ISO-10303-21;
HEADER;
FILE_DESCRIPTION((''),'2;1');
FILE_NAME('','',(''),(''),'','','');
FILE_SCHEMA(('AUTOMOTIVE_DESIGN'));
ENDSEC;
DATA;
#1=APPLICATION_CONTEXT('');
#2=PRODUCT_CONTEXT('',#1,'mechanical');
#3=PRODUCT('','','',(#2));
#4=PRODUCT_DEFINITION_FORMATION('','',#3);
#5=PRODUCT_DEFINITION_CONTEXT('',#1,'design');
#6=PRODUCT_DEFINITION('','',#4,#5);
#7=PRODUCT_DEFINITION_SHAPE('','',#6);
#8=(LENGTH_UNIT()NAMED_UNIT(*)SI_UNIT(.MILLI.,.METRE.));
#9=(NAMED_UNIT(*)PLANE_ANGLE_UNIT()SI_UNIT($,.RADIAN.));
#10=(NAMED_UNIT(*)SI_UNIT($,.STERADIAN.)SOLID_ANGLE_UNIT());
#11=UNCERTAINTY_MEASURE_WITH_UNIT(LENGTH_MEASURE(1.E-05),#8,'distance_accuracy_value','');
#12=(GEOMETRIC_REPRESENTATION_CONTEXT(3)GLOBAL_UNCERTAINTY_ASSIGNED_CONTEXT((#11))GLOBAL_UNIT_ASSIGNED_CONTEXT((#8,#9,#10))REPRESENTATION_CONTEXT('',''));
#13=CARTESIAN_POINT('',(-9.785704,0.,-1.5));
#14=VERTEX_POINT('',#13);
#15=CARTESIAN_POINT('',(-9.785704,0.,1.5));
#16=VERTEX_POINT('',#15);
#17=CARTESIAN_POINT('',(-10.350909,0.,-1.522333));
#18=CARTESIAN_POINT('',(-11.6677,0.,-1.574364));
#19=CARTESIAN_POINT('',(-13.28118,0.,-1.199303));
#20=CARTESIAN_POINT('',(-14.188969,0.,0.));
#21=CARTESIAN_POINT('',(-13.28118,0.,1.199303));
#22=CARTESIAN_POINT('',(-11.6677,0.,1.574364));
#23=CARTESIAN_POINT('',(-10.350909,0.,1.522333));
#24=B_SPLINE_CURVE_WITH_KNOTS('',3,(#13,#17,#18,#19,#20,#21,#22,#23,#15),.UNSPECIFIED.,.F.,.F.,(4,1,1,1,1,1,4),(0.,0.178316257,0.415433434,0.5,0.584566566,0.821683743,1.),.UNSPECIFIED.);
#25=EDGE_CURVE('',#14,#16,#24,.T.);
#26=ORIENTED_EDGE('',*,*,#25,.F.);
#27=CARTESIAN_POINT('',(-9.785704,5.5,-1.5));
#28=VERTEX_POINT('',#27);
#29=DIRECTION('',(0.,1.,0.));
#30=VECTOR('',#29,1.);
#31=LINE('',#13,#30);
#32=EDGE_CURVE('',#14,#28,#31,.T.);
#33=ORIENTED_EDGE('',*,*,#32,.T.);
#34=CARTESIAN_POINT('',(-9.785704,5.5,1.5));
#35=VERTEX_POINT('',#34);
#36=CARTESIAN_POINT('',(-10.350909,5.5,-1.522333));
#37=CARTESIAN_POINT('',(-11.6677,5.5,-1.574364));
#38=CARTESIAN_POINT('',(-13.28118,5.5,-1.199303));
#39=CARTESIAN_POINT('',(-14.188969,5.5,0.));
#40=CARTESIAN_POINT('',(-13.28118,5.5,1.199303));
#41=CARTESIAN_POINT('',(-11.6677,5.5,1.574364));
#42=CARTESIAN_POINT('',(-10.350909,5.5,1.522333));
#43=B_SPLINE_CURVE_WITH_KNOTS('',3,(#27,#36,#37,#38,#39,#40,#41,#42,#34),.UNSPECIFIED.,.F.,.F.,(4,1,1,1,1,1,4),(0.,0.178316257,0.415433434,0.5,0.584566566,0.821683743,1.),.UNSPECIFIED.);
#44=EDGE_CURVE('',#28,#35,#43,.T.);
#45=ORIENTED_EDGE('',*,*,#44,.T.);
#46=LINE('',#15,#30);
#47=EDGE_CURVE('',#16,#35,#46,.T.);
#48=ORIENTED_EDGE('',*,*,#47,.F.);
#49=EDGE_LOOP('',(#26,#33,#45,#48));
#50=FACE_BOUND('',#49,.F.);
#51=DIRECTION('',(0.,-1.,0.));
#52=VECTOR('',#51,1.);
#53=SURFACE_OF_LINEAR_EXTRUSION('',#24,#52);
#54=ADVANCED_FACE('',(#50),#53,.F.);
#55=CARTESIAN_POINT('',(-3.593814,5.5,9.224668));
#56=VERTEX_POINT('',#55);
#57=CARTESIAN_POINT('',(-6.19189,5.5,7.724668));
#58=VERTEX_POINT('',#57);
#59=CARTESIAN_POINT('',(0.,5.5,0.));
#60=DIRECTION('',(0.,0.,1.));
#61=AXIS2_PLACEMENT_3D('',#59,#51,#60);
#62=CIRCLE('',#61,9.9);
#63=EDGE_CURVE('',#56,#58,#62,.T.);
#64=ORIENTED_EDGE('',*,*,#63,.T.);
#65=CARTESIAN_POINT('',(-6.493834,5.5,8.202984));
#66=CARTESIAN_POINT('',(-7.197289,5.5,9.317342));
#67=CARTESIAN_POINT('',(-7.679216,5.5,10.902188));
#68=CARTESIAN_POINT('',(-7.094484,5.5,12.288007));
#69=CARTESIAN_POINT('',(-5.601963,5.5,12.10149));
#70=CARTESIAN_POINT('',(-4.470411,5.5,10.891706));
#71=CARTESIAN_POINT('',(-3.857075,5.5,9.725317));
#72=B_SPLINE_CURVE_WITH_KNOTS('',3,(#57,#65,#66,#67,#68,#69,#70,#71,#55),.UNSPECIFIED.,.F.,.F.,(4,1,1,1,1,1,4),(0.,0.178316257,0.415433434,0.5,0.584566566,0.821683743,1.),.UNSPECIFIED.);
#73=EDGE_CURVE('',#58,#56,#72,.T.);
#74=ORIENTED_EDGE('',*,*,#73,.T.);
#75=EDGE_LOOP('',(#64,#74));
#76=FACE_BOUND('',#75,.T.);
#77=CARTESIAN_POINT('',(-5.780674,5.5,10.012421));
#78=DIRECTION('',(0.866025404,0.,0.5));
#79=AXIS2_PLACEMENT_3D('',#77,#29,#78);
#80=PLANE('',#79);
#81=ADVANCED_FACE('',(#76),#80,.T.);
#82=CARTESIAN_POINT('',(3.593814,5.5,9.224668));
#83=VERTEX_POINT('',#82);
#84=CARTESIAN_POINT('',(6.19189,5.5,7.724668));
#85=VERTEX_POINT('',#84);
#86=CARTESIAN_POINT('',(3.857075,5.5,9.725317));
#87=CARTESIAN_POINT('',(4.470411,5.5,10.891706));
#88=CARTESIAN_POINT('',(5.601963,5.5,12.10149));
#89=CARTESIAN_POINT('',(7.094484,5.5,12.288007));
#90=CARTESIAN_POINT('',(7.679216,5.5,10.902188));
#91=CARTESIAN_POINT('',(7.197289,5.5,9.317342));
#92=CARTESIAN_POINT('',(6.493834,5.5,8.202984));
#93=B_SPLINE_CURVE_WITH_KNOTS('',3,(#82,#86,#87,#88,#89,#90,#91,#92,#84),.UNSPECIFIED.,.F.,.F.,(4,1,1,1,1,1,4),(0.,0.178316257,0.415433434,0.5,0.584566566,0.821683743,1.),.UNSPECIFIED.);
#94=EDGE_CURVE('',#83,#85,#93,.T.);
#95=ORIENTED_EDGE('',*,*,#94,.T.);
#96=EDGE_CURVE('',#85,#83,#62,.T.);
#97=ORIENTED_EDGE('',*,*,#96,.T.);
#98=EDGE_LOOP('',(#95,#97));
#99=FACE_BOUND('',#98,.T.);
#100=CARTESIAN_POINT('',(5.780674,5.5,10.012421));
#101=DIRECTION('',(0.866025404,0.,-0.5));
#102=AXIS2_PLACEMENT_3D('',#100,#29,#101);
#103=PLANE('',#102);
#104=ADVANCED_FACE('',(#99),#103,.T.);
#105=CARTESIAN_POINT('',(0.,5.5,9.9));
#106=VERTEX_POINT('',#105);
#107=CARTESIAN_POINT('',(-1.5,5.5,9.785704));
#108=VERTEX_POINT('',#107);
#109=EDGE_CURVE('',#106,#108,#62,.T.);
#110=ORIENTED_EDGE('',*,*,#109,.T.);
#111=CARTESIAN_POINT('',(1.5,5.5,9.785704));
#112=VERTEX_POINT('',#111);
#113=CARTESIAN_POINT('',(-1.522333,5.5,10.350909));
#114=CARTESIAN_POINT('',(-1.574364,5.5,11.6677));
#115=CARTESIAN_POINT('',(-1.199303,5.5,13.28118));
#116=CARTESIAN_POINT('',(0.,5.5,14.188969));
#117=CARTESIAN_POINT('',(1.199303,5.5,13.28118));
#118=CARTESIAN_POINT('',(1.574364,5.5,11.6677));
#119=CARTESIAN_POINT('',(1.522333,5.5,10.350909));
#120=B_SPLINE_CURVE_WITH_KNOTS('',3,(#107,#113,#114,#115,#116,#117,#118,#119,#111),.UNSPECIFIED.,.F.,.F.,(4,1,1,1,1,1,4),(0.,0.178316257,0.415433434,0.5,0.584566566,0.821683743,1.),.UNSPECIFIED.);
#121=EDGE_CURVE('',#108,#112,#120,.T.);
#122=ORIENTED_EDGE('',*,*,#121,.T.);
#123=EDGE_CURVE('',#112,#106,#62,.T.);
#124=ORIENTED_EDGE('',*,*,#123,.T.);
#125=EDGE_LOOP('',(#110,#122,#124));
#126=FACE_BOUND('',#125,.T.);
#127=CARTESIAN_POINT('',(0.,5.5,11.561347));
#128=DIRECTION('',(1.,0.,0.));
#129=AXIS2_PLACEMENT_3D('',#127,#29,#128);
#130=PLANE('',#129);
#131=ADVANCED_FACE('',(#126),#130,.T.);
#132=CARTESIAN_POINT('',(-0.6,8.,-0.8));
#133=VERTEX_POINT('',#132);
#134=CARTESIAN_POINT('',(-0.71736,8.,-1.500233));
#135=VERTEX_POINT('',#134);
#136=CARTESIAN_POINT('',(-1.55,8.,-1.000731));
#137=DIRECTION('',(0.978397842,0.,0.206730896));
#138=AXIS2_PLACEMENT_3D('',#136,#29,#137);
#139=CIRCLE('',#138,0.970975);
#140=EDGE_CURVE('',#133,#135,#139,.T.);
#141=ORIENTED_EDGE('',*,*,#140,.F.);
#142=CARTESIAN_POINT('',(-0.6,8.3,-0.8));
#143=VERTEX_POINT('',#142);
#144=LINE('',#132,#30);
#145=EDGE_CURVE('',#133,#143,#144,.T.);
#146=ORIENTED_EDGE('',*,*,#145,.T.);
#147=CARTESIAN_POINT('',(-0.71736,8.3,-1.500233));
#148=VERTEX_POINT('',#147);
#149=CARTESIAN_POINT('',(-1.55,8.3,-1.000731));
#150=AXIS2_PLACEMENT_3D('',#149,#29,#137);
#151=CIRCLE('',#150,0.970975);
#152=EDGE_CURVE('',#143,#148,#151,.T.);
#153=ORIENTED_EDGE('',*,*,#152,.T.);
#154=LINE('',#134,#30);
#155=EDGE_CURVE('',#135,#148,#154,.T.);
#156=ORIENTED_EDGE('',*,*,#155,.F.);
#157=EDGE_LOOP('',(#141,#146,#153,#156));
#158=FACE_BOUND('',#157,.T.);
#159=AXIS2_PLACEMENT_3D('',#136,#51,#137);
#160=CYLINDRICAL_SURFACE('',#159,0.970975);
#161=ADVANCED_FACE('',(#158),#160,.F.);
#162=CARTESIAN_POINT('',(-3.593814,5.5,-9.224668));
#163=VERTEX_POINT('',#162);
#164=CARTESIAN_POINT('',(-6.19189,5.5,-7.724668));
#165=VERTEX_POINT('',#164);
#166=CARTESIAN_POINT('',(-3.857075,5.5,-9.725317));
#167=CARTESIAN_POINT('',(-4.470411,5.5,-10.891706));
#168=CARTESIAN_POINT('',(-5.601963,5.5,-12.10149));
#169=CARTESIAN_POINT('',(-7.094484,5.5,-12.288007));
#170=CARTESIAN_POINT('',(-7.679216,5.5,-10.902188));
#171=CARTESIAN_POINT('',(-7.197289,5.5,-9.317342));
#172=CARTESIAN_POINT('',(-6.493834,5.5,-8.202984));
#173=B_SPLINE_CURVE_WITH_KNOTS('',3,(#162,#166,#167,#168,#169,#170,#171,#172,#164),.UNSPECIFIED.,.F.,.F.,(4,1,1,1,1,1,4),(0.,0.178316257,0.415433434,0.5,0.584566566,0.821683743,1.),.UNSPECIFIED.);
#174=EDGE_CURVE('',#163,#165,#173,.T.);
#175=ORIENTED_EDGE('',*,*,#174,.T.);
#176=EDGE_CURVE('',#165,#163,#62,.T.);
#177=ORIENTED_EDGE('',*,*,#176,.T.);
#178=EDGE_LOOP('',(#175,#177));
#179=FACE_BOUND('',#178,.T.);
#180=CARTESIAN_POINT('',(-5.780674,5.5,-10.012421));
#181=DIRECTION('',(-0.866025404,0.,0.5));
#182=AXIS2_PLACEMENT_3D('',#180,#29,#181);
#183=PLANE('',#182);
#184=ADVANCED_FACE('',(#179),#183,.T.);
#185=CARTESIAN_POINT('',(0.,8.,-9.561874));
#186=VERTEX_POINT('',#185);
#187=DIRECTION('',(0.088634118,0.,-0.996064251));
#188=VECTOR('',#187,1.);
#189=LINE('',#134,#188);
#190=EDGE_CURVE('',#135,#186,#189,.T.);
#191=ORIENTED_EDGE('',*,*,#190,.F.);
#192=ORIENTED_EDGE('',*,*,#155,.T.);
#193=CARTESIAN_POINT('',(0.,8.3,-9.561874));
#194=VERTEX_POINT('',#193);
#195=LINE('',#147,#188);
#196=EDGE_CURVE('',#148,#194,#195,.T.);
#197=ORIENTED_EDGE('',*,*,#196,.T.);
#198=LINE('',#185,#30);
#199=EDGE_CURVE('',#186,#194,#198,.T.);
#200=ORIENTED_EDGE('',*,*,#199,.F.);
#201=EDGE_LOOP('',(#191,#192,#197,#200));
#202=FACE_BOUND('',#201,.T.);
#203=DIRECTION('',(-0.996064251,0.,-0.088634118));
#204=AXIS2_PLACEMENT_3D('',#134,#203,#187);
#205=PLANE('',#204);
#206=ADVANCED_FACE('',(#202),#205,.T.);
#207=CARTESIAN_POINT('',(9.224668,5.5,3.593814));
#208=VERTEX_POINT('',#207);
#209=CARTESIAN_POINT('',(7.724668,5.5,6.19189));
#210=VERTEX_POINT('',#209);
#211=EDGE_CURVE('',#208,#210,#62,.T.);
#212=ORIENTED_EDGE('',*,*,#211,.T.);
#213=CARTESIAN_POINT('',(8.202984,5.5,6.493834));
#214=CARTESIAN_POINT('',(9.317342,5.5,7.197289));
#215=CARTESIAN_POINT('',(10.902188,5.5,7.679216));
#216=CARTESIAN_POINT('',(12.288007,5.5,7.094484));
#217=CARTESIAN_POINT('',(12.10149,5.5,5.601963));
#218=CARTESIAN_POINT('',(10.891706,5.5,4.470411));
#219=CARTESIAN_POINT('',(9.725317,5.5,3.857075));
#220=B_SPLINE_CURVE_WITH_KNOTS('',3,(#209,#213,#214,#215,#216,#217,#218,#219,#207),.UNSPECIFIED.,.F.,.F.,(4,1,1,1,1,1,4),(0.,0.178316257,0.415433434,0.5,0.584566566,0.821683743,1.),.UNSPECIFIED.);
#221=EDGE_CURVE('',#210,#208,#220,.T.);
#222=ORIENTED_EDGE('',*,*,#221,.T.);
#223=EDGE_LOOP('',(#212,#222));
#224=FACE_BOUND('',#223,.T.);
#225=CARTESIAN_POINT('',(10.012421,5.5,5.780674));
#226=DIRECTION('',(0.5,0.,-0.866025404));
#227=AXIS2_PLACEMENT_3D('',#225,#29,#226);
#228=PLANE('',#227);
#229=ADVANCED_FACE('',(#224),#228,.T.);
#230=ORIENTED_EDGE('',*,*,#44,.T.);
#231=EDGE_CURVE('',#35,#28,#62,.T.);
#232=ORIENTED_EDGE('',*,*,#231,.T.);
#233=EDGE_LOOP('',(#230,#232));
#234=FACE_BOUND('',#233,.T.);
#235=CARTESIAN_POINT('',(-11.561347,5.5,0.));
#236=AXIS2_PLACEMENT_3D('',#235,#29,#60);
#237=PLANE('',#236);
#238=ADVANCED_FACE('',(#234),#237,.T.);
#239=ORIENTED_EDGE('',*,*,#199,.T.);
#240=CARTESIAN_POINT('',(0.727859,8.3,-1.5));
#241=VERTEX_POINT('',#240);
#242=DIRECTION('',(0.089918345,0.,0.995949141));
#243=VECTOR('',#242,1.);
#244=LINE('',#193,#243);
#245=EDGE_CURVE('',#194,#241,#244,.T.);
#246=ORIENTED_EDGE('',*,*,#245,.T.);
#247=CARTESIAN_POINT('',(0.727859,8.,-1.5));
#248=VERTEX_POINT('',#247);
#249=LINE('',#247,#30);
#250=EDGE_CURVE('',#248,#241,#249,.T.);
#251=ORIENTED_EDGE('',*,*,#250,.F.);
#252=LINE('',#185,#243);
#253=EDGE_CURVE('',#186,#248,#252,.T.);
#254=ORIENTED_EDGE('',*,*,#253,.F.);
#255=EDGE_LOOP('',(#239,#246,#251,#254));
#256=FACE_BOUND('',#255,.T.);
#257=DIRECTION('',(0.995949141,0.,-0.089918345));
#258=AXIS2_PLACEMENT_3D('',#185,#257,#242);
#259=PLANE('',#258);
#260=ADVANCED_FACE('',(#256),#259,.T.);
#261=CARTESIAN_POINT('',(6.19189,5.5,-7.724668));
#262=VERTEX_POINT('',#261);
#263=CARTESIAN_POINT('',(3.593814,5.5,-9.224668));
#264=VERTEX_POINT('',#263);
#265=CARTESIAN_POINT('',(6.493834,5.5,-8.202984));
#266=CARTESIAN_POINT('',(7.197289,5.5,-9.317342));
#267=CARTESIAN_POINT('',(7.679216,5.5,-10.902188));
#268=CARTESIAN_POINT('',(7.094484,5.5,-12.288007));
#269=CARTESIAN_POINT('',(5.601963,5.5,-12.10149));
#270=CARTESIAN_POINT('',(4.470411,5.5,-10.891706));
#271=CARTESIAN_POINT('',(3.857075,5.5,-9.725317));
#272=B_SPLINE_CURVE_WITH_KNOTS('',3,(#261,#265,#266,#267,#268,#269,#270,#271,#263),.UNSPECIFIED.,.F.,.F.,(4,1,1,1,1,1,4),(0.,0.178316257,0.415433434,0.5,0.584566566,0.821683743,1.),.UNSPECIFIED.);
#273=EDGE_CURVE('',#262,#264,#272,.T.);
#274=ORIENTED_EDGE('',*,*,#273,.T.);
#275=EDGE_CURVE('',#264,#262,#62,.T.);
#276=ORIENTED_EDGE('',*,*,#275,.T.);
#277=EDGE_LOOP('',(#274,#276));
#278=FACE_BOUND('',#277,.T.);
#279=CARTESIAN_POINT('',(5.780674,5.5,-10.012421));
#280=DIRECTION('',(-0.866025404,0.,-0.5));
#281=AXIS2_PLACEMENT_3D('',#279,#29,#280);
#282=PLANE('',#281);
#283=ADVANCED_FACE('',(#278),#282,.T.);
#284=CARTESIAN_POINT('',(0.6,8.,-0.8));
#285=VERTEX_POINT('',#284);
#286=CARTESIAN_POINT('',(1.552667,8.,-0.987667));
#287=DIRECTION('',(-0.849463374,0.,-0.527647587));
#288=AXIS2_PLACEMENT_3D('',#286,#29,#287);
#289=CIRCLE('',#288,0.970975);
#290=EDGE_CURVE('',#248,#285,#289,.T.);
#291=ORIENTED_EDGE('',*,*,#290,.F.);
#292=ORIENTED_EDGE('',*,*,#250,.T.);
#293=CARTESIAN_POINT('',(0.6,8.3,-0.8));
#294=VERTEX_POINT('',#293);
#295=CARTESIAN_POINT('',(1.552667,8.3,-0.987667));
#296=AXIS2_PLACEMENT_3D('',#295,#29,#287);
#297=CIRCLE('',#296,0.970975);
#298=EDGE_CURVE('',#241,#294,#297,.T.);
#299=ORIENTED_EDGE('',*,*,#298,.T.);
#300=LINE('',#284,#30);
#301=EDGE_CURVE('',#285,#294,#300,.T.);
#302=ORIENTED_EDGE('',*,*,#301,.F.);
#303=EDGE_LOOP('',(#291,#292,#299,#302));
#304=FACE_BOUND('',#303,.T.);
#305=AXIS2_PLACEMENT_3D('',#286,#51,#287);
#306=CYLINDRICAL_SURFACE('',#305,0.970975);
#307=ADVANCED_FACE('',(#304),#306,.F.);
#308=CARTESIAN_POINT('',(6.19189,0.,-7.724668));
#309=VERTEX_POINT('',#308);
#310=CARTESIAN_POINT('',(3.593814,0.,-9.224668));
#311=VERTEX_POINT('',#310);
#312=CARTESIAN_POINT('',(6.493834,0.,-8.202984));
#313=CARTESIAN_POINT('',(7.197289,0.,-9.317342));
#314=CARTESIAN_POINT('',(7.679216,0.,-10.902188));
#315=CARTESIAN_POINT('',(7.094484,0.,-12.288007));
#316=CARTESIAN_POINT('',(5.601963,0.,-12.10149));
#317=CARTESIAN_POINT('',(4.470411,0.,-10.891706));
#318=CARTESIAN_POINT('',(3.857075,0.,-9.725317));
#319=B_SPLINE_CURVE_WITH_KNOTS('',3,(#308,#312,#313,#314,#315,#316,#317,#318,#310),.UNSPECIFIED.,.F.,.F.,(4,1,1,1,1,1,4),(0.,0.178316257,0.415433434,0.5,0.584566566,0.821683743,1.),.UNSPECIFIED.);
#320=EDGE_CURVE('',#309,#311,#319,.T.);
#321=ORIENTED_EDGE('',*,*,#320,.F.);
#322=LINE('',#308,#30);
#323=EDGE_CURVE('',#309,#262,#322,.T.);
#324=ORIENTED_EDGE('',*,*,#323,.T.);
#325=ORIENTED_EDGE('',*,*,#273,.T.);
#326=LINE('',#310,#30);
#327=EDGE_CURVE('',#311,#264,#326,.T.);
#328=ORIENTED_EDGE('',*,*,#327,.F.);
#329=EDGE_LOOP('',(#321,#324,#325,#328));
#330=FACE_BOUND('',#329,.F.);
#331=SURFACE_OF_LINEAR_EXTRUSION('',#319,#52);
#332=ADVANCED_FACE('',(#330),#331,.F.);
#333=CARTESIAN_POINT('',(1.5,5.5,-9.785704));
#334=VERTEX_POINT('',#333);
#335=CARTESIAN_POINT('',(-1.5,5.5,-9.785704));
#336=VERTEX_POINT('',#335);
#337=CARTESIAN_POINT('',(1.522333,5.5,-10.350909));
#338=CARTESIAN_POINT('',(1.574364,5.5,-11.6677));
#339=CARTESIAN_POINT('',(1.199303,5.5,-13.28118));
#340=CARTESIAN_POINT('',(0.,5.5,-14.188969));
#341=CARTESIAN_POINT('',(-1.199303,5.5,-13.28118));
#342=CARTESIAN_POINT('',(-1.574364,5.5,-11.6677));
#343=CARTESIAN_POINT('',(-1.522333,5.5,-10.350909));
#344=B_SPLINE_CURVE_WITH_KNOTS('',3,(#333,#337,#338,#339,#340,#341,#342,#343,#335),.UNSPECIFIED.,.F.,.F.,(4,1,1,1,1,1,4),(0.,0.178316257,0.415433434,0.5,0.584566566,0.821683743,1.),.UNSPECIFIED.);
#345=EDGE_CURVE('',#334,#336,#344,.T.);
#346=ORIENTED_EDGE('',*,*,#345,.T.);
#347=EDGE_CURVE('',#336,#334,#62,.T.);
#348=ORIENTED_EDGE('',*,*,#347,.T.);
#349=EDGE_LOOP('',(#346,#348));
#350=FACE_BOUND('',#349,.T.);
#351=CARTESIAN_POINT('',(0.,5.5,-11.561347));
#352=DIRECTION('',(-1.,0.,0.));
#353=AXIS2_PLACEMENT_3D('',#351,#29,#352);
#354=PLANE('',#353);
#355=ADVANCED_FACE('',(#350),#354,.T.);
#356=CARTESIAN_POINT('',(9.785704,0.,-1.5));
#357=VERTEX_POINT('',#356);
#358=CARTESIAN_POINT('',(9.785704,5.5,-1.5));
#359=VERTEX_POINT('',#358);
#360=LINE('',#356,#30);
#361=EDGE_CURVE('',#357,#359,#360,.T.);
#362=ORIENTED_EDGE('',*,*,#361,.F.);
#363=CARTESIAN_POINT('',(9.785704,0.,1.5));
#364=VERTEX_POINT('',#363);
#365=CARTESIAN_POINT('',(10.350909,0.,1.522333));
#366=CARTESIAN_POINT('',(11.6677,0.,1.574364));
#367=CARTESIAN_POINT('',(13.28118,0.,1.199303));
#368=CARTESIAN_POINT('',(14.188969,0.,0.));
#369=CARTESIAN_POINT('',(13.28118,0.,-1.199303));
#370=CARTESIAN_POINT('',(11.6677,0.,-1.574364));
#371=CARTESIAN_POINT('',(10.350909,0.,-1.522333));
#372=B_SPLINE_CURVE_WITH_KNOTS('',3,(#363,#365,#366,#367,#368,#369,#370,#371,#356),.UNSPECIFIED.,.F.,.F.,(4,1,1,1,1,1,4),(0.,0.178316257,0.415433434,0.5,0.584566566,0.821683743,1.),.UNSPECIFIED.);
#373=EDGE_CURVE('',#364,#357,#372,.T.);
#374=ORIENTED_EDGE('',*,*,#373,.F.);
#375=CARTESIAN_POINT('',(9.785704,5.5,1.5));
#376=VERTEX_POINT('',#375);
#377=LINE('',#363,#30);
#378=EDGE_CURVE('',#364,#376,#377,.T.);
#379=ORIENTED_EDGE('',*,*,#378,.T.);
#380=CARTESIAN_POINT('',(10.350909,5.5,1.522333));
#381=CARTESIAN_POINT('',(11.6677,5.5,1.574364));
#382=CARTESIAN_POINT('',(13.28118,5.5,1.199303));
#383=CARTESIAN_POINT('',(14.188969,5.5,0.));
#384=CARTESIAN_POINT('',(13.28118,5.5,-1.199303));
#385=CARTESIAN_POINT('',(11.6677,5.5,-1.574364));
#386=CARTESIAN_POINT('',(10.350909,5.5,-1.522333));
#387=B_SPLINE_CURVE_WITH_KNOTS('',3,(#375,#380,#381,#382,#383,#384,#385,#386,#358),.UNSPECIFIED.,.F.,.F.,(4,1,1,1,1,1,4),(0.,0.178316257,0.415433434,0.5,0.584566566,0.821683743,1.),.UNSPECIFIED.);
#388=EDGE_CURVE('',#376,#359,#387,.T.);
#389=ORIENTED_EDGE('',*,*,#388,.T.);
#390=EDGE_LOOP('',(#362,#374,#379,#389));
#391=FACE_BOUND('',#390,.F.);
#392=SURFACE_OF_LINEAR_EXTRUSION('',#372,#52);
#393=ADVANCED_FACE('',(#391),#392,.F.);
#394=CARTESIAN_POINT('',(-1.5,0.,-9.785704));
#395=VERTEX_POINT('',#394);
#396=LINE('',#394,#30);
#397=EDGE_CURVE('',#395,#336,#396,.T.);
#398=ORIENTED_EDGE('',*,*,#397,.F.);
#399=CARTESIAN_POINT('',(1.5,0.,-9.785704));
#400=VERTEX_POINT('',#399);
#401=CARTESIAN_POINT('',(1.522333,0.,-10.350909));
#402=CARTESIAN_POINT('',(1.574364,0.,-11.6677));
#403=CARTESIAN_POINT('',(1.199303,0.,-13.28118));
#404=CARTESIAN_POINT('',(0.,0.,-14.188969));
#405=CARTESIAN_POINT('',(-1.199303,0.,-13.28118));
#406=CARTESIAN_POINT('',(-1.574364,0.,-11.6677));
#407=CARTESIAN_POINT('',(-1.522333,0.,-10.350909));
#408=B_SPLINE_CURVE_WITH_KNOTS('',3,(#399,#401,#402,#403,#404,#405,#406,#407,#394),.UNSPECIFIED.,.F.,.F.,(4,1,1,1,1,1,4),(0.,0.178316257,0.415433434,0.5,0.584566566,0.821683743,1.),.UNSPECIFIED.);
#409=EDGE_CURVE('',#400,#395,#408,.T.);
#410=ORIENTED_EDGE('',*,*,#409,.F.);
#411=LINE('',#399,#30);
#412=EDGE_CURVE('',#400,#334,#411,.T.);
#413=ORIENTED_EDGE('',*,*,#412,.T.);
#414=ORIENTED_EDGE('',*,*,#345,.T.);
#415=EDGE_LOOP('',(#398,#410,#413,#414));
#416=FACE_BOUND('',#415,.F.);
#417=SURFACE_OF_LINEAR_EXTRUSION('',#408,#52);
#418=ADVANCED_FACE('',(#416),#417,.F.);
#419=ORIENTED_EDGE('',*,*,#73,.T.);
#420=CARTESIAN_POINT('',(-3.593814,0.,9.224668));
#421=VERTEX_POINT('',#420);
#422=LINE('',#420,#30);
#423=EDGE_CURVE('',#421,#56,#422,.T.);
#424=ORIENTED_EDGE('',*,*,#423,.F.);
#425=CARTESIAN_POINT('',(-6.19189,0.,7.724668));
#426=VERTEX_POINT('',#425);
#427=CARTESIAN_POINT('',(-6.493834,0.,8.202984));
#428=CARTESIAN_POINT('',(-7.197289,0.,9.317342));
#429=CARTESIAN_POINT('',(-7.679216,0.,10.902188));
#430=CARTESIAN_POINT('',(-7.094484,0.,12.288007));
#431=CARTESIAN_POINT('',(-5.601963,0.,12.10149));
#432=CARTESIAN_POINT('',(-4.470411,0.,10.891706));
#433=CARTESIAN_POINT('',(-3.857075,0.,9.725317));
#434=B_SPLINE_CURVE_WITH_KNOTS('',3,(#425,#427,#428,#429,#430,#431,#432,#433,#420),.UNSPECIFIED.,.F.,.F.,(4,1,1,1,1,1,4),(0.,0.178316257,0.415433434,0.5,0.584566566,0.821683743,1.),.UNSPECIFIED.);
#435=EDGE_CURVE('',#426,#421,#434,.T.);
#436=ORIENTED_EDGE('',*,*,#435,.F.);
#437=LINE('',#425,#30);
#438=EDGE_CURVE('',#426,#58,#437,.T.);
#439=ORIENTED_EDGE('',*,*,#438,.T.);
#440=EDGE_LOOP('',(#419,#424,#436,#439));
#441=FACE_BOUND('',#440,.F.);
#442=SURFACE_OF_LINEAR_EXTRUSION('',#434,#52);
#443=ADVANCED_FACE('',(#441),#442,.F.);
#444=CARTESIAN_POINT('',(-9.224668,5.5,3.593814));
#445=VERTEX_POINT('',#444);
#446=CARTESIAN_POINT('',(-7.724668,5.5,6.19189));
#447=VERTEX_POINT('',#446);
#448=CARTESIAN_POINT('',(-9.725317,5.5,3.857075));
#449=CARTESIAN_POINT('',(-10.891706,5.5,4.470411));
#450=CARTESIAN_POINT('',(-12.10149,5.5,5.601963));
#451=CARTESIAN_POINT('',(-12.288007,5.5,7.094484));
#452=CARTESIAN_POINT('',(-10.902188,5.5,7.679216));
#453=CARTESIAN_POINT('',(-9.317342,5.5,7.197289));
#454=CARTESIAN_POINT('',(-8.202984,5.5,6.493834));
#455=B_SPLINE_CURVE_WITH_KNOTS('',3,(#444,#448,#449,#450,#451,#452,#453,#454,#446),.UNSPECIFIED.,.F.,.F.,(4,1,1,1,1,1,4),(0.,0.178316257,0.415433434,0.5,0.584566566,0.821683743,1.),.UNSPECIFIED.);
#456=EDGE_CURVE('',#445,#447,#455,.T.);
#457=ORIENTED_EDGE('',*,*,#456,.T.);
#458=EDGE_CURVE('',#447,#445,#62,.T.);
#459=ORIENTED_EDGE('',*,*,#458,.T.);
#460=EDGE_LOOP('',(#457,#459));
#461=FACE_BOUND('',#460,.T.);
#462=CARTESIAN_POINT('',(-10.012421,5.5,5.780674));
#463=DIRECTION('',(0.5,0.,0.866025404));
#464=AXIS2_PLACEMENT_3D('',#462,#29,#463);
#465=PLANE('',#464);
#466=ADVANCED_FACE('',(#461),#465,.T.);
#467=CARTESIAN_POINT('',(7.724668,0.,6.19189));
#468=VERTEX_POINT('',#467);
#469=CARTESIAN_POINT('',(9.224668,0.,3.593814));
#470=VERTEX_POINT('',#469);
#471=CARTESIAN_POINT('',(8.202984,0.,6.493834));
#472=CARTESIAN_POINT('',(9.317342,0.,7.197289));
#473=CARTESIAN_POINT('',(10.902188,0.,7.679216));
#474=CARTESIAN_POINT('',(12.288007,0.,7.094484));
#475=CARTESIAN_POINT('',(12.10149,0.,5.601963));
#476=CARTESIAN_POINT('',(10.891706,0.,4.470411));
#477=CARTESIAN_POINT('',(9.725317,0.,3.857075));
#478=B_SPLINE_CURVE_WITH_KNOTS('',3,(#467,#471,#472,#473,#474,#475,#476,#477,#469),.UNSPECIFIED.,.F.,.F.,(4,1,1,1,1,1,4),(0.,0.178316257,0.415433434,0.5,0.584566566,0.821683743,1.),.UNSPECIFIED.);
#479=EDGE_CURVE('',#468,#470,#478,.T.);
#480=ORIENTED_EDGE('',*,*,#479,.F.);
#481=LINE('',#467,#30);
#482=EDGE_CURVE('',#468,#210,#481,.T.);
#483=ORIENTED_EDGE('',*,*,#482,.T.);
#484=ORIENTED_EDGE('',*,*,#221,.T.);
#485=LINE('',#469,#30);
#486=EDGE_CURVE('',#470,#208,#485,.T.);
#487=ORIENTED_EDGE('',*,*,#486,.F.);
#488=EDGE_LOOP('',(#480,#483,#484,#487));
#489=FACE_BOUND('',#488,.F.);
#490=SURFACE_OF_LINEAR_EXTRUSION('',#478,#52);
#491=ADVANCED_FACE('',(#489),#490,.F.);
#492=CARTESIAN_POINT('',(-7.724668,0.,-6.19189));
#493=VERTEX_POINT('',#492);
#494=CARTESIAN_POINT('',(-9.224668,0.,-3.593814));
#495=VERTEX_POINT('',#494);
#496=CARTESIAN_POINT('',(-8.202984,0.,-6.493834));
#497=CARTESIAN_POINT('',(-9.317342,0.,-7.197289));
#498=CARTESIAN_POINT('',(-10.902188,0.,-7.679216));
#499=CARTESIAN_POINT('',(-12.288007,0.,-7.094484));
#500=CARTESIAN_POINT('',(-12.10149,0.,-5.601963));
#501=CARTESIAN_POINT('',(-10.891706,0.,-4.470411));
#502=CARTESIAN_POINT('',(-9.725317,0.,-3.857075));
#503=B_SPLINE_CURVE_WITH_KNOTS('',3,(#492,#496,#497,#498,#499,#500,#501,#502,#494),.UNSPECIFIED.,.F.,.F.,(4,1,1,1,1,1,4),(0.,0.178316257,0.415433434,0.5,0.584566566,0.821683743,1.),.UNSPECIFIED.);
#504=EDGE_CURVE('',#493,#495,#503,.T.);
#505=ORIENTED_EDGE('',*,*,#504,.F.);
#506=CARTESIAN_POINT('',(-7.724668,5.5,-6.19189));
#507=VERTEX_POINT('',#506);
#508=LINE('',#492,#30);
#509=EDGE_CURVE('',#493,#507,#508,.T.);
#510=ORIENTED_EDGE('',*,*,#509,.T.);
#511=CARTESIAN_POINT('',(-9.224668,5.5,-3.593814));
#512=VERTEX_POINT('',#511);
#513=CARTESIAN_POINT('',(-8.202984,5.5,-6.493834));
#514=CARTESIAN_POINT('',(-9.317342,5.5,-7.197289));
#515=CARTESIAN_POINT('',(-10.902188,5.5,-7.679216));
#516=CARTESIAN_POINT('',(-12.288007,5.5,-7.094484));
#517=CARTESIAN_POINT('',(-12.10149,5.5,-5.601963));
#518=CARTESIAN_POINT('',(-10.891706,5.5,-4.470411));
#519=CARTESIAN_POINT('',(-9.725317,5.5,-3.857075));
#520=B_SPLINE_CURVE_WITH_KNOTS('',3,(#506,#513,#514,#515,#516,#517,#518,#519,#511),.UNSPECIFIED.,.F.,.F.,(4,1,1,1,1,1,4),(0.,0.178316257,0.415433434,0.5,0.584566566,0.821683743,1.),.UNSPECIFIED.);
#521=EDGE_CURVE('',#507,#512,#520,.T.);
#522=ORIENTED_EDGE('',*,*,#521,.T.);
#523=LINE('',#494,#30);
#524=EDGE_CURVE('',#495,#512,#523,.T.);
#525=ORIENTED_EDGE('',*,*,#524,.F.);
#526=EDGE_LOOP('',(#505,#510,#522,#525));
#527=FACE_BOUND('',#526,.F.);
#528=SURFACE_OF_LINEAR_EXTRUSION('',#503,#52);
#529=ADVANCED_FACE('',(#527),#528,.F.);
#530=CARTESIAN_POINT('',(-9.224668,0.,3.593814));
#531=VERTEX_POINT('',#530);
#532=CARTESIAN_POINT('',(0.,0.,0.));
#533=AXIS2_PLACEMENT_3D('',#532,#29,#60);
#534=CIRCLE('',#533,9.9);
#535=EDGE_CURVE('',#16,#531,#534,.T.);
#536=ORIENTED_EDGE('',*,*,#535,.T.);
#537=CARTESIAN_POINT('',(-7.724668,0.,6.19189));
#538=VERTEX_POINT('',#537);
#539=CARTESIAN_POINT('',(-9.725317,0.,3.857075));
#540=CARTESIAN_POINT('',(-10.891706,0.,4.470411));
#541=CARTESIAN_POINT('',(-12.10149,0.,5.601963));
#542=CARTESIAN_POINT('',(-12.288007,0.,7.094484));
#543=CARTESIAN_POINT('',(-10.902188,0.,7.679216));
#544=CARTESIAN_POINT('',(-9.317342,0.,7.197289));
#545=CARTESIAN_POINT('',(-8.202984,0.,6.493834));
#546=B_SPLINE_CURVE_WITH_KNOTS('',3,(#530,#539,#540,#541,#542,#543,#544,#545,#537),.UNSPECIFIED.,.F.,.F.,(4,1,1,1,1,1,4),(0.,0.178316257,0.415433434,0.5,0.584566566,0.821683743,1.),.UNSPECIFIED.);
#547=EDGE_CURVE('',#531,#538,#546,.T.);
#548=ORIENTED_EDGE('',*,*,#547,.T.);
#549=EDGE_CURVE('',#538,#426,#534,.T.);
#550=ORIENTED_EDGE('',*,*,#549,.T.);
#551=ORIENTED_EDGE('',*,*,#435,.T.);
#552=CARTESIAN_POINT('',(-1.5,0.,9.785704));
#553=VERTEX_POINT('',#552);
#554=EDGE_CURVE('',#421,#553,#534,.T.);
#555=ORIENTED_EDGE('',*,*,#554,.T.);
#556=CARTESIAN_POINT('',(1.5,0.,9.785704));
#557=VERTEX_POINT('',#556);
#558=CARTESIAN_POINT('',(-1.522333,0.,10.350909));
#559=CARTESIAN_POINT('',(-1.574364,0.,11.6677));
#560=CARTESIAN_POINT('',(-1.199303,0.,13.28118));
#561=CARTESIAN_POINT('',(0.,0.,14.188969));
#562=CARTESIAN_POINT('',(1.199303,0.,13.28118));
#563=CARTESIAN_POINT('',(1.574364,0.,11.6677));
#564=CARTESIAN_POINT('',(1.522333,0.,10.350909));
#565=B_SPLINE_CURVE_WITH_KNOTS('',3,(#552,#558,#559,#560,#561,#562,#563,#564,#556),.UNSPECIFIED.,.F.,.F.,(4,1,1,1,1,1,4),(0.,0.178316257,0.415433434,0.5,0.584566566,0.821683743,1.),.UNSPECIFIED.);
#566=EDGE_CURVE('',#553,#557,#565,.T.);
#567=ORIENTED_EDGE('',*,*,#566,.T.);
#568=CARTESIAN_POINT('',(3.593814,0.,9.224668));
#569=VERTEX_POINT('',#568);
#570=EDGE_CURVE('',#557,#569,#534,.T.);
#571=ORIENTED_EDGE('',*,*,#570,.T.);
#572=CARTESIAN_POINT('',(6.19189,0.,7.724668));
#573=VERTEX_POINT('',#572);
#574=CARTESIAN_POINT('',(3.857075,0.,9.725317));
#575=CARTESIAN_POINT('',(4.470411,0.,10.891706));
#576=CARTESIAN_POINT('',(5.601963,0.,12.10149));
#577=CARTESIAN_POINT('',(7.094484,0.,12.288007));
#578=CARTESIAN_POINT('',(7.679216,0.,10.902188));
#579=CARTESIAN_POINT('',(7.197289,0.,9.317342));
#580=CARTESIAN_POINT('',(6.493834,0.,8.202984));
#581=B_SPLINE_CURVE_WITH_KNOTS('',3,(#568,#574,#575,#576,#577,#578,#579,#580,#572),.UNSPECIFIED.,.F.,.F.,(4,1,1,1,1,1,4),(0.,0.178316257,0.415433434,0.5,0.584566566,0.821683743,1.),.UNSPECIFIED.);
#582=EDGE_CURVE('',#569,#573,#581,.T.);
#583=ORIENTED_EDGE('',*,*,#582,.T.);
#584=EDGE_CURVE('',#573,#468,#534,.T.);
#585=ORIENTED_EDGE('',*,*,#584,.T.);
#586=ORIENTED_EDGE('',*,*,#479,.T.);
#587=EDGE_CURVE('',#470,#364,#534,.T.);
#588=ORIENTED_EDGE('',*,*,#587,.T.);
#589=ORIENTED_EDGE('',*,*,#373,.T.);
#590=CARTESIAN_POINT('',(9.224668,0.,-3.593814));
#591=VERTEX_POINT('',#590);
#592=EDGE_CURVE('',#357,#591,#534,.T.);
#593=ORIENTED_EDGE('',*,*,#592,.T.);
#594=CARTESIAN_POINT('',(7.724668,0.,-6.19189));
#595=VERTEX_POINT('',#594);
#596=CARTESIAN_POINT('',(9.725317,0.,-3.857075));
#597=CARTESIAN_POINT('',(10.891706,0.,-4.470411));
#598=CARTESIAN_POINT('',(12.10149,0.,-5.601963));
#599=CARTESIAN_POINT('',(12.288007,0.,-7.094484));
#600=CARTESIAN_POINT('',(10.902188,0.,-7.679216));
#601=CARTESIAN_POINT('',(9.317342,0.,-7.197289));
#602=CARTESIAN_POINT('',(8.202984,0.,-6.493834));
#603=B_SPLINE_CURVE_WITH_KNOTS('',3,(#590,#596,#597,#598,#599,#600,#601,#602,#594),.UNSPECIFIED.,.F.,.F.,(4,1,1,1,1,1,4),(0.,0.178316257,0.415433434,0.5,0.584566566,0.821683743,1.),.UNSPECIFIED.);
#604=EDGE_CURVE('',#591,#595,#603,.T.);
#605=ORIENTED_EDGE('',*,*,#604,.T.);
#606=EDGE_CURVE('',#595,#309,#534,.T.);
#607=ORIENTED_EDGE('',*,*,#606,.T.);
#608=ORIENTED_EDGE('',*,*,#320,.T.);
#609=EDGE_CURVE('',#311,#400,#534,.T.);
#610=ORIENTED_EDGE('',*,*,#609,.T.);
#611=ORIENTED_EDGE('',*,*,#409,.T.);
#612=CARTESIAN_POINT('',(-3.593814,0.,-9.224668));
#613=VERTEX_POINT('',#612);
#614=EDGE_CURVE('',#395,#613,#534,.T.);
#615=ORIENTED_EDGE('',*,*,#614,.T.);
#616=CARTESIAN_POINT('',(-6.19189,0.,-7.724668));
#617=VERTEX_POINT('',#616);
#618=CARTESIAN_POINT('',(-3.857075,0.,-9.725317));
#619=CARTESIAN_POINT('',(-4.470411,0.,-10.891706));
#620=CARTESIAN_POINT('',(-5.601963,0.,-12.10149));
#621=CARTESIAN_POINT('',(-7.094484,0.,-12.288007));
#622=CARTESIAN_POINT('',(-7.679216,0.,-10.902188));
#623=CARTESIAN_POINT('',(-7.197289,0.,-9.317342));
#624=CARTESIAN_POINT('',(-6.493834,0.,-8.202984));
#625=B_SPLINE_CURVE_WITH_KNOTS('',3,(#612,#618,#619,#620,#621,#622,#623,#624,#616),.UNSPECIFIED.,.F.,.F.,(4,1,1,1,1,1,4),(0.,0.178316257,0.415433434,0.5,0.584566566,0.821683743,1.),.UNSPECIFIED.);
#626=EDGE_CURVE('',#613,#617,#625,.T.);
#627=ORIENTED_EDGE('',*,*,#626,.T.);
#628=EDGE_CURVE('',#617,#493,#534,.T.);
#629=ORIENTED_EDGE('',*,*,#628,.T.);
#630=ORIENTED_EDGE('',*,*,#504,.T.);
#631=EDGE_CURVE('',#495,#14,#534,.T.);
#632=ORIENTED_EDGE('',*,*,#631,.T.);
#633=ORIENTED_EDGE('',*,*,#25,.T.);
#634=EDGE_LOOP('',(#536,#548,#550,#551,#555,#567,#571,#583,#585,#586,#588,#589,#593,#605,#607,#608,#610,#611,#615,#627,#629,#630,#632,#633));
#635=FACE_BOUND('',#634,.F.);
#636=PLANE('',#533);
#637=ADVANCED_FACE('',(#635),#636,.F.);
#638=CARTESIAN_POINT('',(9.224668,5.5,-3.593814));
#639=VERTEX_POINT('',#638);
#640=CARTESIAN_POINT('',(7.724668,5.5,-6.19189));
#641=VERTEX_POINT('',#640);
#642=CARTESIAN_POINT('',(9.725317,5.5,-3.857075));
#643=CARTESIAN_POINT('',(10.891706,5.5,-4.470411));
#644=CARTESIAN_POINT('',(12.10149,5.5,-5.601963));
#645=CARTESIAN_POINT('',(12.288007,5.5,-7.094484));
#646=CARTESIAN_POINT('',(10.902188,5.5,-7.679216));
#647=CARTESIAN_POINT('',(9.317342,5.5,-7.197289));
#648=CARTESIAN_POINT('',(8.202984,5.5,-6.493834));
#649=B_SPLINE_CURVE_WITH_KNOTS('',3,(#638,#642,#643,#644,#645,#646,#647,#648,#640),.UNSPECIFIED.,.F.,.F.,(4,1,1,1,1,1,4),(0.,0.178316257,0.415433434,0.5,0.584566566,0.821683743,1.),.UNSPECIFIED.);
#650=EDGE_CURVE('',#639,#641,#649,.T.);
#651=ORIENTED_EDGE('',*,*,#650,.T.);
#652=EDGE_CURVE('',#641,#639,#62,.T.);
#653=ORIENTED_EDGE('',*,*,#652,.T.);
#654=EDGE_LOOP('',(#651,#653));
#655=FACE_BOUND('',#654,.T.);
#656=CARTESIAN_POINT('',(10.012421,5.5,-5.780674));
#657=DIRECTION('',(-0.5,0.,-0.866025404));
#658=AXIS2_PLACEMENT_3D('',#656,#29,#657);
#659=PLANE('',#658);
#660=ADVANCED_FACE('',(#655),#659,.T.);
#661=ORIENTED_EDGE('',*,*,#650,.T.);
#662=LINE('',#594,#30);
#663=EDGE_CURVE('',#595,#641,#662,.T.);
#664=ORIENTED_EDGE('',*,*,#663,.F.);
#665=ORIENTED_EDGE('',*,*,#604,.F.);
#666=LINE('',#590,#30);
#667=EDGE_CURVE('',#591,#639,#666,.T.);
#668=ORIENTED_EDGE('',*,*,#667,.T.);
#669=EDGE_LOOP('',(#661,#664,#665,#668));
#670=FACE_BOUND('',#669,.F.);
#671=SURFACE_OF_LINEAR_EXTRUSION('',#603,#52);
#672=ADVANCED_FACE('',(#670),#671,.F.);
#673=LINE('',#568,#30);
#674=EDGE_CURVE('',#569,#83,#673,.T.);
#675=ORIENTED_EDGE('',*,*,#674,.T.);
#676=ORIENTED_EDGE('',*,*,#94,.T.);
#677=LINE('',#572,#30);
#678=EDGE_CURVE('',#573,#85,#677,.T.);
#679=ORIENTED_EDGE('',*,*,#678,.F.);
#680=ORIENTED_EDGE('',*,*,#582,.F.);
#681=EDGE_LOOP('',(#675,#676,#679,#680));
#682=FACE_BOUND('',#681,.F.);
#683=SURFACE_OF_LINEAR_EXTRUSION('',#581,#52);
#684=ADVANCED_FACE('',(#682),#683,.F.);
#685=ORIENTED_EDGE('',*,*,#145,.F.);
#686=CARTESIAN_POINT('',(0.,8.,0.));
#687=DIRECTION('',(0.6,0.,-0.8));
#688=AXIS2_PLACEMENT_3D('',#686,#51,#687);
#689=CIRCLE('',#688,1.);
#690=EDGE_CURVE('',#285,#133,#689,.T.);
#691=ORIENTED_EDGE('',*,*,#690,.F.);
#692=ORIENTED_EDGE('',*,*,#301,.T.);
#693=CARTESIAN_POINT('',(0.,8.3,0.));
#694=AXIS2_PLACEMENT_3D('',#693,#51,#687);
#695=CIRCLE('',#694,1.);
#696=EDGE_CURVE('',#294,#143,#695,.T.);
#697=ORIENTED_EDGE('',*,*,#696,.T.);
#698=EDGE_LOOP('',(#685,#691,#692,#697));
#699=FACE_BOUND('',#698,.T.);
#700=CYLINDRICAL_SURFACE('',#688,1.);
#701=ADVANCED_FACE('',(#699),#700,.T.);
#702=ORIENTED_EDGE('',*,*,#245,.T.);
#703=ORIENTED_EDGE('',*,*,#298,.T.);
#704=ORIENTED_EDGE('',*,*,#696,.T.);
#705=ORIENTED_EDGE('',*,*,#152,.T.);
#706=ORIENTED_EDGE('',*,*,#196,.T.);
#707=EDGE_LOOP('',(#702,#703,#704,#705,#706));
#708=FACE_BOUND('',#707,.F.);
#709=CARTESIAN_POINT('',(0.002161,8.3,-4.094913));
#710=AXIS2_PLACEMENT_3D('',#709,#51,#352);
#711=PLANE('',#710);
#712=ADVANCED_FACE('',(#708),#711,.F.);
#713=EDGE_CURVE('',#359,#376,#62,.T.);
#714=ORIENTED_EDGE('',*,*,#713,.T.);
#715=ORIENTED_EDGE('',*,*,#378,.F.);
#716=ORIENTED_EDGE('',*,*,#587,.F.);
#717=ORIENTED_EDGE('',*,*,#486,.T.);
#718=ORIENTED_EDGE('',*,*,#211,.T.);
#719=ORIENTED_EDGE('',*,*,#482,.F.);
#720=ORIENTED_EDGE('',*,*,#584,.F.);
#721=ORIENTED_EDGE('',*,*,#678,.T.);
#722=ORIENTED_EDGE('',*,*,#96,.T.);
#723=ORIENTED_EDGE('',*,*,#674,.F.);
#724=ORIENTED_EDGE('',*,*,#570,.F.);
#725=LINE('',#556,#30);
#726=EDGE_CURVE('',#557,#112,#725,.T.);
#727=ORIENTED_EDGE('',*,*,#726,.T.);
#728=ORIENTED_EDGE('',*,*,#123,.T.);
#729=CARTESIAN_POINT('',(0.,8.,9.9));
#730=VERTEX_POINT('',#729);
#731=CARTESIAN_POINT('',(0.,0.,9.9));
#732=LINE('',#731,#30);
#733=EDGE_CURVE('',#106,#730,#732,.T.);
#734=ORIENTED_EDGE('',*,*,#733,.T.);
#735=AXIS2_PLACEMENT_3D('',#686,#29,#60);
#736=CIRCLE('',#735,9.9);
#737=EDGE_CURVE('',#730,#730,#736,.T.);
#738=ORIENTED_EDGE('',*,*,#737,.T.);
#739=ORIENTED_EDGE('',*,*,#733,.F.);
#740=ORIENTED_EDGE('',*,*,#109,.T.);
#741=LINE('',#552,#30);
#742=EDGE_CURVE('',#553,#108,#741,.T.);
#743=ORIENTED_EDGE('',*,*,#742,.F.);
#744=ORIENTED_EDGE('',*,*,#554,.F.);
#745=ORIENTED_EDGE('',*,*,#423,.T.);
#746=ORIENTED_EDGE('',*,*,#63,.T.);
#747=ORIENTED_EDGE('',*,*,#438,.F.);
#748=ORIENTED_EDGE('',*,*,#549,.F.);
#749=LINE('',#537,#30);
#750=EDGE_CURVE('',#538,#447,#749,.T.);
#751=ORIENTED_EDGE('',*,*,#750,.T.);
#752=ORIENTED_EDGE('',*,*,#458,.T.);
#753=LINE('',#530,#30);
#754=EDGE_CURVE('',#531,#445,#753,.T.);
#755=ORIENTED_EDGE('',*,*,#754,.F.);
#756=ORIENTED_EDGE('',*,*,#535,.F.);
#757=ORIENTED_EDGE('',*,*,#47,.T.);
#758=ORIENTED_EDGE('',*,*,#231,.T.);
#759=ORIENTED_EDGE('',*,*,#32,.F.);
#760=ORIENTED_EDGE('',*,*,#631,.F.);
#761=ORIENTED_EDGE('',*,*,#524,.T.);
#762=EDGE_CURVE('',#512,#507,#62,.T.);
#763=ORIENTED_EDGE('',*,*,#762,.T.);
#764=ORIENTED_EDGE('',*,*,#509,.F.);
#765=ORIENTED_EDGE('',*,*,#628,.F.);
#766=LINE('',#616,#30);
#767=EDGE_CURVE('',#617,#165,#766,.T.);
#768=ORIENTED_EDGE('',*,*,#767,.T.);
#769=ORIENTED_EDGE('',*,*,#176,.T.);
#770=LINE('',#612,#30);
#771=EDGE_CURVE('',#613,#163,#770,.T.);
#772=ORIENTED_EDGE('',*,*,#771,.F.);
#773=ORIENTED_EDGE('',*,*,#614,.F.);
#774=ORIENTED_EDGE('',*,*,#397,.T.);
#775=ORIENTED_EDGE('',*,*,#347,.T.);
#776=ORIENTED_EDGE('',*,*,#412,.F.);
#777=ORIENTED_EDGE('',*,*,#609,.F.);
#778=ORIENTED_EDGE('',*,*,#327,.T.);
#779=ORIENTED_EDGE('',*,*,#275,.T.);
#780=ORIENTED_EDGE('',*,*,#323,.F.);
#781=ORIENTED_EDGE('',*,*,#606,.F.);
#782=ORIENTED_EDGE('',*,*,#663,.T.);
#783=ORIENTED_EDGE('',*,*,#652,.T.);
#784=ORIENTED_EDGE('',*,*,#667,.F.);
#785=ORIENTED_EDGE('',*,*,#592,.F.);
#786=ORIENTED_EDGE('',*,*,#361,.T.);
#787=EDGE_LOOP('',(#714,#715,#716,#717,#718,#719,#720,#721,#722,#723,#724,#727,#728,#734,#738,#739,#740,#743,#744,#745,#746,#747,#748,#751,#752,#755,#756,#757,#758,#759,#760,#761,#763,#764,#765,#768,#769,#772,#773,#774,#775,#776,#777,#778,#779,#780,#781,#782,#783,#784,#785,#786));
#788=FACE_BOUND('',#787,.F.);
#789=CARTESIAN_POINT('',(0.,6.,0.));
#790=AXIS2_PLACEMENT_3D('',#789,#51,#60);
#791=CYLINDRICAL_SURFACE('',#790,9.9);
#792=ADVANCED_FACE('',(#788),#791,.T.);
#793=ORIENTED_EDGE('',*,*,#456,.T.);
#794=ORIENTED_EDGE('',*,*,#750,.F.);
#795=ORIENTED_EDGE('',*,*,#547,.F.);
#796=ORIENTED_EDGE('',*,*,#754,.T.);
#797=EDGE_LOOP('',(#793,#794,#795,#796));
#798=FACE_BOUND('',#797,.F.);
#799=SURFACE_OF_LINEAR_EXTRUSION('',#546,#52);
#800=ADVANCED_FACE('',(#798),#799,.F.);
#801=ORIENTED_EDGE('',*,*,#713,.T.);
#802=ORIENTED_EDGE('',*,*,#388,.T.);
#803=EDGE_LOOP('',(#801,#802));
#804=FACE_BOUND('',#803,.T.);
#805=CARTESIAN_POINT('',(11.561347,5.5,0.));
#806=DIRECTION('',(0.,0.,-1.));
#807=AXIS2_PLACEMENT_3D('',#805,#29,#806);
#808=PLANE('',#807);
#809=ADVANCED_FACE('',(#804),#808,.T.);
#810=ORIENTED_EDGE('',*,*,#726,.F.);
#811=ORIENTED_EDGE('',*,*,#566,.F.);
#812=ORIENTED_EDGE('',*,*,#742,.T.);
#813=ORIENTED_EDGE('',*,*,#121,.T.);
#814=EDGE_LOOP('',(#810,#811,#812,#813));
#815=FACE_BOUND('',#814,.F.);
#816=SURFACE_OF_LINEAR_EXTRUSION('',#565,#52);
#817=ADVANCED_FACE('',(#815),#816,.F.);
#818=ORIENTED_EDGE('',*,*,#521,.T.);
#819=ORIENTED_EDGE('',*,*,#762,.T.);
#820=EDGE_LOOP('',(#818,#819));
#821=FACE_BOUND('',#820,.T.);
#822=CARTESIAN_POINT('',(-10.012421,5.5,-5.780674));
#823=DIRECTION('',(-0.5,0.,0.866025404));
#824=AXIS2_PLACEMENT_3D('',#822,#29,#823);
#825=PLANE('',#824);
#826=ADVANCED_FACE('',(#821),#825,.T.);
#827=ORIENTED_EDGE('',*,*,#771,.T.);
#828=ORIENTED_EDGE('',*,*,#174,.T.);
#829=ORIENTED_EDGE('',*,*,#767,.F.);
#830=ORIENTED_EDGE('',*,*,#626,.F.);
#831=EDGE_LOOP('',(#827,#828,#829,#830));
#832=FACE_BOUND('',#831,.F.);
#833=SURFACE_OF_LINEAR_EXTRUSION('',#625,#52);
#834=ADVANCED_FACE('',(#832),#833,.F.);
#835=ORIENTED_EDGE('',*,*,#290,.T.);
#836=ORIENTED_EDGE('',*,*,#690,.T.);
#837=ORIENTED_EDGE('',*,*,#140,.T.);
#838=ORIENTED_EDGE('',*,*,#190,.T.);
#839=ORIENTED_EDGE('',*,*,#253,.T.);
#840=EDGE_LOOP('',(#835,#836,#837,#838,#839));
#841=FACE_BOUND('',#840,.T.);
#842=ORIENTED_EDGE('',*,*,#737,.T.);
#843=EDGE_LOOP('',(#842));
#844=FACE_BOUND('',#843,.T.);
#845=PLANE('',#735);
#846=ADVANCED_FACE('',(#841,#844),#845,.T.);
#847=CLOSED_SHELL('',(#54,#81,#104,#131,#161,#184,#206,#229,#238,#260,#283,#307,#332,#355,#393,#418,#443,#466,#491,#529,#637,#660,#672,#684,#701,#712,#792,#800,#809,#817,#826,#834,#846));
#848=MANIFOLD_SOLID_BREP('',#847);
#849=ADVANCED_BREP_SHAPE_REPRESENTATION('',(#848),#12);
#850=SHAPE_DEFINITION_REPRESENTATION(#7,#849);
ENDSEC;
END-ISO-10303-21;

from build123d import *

# Parameters (mm, degrees)
SKETCH1_R           = 9.9
BOSS_EXTRUDE1_DEPTH = 6
SKETCH2_R           = 9.9
BOSS_EXTRUDE2_DEPTH = 2
BOSS_EXTRUDE3_DEPTH = 0.3
BOSS_EXTRUDE5_DEPTH = 5.5
CIRPATTERN1_COUNT   = 12


with BuildPart() as part:
    # Sketch1 → Boss-Extrude1 (new body)
    with BuildSketch(Plane(origin=(0, 0, 0), x_dir=(1, 0, 0), z_dir=(0, 1, 0))):
        with Locations(Location((0, 0, 0), (0, 0, 270))):
            Circle(SKETCH1_R)
    extrude(amount=BOSS_EXTRUDE1_DEPTH)

    # Sketch2 → Boss-Extrude2 (add)
    with BuildSketch(Plane(origin=(0, 6, 0), x_dir=(1, 0, 0), z_dir=(0, 1, 0))):
        with Locations(Location((0, 0, 0), (0, 0, 270))):
            Circle(SKETCH2_R)
    extrude(amount=BOSS_EXTRUDE2_DEPTH)

    # Sketch3 → Boss-Extrude3 (add)
    with BuildSketch(Plane(origin=(0, 8, 0), x_dir=(1, 0, 0), z_dir=(0, 1, 0))):
        with BuildLine():
            Line((0, 9.561873975), (0.727858815, 1.5))
            ThreePointArc((0.727858815, 1.5), (0.597494474, 1.162134703), (0.6, 0.8))
            ThreePointArc((0.6, 0.8), (0, -1), (-0.6, 0.8))
            ThreePointArc((-0.6, 0.8), (-0.592381481, 1.161228328), (-0.71735976, 1.500233309))
            Line((-0.71735976, 1.500233309), (0, 9.561873975))
        make_face()
    extrude(amount=BOSS_EXTRUDE3_DEPTH)

    # Sketch4 → Boss-Extrude5 (add)
    with BuildSketch(Plane.XZ):
        with BuildLine():
            Line((-1.5, -9.785703858), (1.5, -9.785703858))
            add(Edge.make_bspline(
                [(1.5, -9.785703858), (1.52233311, -10.350909106), (1.574363817, -11.667699624), (1.199302648, -13.281179815), (0, -14.188968688), (-1.199302648, -13.281179815), (-1.574363817, -11.667699624), (-1.52233311, -10.350909106), (-1.5, -9.785703858)],
                knots=[0, 0, 0, 0, 0.178316257, 0.415433434, 0.5, 0.584566566, 0.821683743, 1, 1, 1, 1], degree=3))
        make_face()
    boss_extrude5 = extrude(amount=-BOSS_EXTRUDE5_DEPTH)

    # CirPattern1: Boss-Extrude5 ×12 about axis
    cirpattern1_axis = Axis((0, 0, 0), (0, 1, 0))
    for i in range(1, CIRPATTERN1_COUNT):
        add(boss_extrude5.rotate(cirpattern1_axis, i * 360 / CIRPATTERN1_COUNT))


solid = part.part
